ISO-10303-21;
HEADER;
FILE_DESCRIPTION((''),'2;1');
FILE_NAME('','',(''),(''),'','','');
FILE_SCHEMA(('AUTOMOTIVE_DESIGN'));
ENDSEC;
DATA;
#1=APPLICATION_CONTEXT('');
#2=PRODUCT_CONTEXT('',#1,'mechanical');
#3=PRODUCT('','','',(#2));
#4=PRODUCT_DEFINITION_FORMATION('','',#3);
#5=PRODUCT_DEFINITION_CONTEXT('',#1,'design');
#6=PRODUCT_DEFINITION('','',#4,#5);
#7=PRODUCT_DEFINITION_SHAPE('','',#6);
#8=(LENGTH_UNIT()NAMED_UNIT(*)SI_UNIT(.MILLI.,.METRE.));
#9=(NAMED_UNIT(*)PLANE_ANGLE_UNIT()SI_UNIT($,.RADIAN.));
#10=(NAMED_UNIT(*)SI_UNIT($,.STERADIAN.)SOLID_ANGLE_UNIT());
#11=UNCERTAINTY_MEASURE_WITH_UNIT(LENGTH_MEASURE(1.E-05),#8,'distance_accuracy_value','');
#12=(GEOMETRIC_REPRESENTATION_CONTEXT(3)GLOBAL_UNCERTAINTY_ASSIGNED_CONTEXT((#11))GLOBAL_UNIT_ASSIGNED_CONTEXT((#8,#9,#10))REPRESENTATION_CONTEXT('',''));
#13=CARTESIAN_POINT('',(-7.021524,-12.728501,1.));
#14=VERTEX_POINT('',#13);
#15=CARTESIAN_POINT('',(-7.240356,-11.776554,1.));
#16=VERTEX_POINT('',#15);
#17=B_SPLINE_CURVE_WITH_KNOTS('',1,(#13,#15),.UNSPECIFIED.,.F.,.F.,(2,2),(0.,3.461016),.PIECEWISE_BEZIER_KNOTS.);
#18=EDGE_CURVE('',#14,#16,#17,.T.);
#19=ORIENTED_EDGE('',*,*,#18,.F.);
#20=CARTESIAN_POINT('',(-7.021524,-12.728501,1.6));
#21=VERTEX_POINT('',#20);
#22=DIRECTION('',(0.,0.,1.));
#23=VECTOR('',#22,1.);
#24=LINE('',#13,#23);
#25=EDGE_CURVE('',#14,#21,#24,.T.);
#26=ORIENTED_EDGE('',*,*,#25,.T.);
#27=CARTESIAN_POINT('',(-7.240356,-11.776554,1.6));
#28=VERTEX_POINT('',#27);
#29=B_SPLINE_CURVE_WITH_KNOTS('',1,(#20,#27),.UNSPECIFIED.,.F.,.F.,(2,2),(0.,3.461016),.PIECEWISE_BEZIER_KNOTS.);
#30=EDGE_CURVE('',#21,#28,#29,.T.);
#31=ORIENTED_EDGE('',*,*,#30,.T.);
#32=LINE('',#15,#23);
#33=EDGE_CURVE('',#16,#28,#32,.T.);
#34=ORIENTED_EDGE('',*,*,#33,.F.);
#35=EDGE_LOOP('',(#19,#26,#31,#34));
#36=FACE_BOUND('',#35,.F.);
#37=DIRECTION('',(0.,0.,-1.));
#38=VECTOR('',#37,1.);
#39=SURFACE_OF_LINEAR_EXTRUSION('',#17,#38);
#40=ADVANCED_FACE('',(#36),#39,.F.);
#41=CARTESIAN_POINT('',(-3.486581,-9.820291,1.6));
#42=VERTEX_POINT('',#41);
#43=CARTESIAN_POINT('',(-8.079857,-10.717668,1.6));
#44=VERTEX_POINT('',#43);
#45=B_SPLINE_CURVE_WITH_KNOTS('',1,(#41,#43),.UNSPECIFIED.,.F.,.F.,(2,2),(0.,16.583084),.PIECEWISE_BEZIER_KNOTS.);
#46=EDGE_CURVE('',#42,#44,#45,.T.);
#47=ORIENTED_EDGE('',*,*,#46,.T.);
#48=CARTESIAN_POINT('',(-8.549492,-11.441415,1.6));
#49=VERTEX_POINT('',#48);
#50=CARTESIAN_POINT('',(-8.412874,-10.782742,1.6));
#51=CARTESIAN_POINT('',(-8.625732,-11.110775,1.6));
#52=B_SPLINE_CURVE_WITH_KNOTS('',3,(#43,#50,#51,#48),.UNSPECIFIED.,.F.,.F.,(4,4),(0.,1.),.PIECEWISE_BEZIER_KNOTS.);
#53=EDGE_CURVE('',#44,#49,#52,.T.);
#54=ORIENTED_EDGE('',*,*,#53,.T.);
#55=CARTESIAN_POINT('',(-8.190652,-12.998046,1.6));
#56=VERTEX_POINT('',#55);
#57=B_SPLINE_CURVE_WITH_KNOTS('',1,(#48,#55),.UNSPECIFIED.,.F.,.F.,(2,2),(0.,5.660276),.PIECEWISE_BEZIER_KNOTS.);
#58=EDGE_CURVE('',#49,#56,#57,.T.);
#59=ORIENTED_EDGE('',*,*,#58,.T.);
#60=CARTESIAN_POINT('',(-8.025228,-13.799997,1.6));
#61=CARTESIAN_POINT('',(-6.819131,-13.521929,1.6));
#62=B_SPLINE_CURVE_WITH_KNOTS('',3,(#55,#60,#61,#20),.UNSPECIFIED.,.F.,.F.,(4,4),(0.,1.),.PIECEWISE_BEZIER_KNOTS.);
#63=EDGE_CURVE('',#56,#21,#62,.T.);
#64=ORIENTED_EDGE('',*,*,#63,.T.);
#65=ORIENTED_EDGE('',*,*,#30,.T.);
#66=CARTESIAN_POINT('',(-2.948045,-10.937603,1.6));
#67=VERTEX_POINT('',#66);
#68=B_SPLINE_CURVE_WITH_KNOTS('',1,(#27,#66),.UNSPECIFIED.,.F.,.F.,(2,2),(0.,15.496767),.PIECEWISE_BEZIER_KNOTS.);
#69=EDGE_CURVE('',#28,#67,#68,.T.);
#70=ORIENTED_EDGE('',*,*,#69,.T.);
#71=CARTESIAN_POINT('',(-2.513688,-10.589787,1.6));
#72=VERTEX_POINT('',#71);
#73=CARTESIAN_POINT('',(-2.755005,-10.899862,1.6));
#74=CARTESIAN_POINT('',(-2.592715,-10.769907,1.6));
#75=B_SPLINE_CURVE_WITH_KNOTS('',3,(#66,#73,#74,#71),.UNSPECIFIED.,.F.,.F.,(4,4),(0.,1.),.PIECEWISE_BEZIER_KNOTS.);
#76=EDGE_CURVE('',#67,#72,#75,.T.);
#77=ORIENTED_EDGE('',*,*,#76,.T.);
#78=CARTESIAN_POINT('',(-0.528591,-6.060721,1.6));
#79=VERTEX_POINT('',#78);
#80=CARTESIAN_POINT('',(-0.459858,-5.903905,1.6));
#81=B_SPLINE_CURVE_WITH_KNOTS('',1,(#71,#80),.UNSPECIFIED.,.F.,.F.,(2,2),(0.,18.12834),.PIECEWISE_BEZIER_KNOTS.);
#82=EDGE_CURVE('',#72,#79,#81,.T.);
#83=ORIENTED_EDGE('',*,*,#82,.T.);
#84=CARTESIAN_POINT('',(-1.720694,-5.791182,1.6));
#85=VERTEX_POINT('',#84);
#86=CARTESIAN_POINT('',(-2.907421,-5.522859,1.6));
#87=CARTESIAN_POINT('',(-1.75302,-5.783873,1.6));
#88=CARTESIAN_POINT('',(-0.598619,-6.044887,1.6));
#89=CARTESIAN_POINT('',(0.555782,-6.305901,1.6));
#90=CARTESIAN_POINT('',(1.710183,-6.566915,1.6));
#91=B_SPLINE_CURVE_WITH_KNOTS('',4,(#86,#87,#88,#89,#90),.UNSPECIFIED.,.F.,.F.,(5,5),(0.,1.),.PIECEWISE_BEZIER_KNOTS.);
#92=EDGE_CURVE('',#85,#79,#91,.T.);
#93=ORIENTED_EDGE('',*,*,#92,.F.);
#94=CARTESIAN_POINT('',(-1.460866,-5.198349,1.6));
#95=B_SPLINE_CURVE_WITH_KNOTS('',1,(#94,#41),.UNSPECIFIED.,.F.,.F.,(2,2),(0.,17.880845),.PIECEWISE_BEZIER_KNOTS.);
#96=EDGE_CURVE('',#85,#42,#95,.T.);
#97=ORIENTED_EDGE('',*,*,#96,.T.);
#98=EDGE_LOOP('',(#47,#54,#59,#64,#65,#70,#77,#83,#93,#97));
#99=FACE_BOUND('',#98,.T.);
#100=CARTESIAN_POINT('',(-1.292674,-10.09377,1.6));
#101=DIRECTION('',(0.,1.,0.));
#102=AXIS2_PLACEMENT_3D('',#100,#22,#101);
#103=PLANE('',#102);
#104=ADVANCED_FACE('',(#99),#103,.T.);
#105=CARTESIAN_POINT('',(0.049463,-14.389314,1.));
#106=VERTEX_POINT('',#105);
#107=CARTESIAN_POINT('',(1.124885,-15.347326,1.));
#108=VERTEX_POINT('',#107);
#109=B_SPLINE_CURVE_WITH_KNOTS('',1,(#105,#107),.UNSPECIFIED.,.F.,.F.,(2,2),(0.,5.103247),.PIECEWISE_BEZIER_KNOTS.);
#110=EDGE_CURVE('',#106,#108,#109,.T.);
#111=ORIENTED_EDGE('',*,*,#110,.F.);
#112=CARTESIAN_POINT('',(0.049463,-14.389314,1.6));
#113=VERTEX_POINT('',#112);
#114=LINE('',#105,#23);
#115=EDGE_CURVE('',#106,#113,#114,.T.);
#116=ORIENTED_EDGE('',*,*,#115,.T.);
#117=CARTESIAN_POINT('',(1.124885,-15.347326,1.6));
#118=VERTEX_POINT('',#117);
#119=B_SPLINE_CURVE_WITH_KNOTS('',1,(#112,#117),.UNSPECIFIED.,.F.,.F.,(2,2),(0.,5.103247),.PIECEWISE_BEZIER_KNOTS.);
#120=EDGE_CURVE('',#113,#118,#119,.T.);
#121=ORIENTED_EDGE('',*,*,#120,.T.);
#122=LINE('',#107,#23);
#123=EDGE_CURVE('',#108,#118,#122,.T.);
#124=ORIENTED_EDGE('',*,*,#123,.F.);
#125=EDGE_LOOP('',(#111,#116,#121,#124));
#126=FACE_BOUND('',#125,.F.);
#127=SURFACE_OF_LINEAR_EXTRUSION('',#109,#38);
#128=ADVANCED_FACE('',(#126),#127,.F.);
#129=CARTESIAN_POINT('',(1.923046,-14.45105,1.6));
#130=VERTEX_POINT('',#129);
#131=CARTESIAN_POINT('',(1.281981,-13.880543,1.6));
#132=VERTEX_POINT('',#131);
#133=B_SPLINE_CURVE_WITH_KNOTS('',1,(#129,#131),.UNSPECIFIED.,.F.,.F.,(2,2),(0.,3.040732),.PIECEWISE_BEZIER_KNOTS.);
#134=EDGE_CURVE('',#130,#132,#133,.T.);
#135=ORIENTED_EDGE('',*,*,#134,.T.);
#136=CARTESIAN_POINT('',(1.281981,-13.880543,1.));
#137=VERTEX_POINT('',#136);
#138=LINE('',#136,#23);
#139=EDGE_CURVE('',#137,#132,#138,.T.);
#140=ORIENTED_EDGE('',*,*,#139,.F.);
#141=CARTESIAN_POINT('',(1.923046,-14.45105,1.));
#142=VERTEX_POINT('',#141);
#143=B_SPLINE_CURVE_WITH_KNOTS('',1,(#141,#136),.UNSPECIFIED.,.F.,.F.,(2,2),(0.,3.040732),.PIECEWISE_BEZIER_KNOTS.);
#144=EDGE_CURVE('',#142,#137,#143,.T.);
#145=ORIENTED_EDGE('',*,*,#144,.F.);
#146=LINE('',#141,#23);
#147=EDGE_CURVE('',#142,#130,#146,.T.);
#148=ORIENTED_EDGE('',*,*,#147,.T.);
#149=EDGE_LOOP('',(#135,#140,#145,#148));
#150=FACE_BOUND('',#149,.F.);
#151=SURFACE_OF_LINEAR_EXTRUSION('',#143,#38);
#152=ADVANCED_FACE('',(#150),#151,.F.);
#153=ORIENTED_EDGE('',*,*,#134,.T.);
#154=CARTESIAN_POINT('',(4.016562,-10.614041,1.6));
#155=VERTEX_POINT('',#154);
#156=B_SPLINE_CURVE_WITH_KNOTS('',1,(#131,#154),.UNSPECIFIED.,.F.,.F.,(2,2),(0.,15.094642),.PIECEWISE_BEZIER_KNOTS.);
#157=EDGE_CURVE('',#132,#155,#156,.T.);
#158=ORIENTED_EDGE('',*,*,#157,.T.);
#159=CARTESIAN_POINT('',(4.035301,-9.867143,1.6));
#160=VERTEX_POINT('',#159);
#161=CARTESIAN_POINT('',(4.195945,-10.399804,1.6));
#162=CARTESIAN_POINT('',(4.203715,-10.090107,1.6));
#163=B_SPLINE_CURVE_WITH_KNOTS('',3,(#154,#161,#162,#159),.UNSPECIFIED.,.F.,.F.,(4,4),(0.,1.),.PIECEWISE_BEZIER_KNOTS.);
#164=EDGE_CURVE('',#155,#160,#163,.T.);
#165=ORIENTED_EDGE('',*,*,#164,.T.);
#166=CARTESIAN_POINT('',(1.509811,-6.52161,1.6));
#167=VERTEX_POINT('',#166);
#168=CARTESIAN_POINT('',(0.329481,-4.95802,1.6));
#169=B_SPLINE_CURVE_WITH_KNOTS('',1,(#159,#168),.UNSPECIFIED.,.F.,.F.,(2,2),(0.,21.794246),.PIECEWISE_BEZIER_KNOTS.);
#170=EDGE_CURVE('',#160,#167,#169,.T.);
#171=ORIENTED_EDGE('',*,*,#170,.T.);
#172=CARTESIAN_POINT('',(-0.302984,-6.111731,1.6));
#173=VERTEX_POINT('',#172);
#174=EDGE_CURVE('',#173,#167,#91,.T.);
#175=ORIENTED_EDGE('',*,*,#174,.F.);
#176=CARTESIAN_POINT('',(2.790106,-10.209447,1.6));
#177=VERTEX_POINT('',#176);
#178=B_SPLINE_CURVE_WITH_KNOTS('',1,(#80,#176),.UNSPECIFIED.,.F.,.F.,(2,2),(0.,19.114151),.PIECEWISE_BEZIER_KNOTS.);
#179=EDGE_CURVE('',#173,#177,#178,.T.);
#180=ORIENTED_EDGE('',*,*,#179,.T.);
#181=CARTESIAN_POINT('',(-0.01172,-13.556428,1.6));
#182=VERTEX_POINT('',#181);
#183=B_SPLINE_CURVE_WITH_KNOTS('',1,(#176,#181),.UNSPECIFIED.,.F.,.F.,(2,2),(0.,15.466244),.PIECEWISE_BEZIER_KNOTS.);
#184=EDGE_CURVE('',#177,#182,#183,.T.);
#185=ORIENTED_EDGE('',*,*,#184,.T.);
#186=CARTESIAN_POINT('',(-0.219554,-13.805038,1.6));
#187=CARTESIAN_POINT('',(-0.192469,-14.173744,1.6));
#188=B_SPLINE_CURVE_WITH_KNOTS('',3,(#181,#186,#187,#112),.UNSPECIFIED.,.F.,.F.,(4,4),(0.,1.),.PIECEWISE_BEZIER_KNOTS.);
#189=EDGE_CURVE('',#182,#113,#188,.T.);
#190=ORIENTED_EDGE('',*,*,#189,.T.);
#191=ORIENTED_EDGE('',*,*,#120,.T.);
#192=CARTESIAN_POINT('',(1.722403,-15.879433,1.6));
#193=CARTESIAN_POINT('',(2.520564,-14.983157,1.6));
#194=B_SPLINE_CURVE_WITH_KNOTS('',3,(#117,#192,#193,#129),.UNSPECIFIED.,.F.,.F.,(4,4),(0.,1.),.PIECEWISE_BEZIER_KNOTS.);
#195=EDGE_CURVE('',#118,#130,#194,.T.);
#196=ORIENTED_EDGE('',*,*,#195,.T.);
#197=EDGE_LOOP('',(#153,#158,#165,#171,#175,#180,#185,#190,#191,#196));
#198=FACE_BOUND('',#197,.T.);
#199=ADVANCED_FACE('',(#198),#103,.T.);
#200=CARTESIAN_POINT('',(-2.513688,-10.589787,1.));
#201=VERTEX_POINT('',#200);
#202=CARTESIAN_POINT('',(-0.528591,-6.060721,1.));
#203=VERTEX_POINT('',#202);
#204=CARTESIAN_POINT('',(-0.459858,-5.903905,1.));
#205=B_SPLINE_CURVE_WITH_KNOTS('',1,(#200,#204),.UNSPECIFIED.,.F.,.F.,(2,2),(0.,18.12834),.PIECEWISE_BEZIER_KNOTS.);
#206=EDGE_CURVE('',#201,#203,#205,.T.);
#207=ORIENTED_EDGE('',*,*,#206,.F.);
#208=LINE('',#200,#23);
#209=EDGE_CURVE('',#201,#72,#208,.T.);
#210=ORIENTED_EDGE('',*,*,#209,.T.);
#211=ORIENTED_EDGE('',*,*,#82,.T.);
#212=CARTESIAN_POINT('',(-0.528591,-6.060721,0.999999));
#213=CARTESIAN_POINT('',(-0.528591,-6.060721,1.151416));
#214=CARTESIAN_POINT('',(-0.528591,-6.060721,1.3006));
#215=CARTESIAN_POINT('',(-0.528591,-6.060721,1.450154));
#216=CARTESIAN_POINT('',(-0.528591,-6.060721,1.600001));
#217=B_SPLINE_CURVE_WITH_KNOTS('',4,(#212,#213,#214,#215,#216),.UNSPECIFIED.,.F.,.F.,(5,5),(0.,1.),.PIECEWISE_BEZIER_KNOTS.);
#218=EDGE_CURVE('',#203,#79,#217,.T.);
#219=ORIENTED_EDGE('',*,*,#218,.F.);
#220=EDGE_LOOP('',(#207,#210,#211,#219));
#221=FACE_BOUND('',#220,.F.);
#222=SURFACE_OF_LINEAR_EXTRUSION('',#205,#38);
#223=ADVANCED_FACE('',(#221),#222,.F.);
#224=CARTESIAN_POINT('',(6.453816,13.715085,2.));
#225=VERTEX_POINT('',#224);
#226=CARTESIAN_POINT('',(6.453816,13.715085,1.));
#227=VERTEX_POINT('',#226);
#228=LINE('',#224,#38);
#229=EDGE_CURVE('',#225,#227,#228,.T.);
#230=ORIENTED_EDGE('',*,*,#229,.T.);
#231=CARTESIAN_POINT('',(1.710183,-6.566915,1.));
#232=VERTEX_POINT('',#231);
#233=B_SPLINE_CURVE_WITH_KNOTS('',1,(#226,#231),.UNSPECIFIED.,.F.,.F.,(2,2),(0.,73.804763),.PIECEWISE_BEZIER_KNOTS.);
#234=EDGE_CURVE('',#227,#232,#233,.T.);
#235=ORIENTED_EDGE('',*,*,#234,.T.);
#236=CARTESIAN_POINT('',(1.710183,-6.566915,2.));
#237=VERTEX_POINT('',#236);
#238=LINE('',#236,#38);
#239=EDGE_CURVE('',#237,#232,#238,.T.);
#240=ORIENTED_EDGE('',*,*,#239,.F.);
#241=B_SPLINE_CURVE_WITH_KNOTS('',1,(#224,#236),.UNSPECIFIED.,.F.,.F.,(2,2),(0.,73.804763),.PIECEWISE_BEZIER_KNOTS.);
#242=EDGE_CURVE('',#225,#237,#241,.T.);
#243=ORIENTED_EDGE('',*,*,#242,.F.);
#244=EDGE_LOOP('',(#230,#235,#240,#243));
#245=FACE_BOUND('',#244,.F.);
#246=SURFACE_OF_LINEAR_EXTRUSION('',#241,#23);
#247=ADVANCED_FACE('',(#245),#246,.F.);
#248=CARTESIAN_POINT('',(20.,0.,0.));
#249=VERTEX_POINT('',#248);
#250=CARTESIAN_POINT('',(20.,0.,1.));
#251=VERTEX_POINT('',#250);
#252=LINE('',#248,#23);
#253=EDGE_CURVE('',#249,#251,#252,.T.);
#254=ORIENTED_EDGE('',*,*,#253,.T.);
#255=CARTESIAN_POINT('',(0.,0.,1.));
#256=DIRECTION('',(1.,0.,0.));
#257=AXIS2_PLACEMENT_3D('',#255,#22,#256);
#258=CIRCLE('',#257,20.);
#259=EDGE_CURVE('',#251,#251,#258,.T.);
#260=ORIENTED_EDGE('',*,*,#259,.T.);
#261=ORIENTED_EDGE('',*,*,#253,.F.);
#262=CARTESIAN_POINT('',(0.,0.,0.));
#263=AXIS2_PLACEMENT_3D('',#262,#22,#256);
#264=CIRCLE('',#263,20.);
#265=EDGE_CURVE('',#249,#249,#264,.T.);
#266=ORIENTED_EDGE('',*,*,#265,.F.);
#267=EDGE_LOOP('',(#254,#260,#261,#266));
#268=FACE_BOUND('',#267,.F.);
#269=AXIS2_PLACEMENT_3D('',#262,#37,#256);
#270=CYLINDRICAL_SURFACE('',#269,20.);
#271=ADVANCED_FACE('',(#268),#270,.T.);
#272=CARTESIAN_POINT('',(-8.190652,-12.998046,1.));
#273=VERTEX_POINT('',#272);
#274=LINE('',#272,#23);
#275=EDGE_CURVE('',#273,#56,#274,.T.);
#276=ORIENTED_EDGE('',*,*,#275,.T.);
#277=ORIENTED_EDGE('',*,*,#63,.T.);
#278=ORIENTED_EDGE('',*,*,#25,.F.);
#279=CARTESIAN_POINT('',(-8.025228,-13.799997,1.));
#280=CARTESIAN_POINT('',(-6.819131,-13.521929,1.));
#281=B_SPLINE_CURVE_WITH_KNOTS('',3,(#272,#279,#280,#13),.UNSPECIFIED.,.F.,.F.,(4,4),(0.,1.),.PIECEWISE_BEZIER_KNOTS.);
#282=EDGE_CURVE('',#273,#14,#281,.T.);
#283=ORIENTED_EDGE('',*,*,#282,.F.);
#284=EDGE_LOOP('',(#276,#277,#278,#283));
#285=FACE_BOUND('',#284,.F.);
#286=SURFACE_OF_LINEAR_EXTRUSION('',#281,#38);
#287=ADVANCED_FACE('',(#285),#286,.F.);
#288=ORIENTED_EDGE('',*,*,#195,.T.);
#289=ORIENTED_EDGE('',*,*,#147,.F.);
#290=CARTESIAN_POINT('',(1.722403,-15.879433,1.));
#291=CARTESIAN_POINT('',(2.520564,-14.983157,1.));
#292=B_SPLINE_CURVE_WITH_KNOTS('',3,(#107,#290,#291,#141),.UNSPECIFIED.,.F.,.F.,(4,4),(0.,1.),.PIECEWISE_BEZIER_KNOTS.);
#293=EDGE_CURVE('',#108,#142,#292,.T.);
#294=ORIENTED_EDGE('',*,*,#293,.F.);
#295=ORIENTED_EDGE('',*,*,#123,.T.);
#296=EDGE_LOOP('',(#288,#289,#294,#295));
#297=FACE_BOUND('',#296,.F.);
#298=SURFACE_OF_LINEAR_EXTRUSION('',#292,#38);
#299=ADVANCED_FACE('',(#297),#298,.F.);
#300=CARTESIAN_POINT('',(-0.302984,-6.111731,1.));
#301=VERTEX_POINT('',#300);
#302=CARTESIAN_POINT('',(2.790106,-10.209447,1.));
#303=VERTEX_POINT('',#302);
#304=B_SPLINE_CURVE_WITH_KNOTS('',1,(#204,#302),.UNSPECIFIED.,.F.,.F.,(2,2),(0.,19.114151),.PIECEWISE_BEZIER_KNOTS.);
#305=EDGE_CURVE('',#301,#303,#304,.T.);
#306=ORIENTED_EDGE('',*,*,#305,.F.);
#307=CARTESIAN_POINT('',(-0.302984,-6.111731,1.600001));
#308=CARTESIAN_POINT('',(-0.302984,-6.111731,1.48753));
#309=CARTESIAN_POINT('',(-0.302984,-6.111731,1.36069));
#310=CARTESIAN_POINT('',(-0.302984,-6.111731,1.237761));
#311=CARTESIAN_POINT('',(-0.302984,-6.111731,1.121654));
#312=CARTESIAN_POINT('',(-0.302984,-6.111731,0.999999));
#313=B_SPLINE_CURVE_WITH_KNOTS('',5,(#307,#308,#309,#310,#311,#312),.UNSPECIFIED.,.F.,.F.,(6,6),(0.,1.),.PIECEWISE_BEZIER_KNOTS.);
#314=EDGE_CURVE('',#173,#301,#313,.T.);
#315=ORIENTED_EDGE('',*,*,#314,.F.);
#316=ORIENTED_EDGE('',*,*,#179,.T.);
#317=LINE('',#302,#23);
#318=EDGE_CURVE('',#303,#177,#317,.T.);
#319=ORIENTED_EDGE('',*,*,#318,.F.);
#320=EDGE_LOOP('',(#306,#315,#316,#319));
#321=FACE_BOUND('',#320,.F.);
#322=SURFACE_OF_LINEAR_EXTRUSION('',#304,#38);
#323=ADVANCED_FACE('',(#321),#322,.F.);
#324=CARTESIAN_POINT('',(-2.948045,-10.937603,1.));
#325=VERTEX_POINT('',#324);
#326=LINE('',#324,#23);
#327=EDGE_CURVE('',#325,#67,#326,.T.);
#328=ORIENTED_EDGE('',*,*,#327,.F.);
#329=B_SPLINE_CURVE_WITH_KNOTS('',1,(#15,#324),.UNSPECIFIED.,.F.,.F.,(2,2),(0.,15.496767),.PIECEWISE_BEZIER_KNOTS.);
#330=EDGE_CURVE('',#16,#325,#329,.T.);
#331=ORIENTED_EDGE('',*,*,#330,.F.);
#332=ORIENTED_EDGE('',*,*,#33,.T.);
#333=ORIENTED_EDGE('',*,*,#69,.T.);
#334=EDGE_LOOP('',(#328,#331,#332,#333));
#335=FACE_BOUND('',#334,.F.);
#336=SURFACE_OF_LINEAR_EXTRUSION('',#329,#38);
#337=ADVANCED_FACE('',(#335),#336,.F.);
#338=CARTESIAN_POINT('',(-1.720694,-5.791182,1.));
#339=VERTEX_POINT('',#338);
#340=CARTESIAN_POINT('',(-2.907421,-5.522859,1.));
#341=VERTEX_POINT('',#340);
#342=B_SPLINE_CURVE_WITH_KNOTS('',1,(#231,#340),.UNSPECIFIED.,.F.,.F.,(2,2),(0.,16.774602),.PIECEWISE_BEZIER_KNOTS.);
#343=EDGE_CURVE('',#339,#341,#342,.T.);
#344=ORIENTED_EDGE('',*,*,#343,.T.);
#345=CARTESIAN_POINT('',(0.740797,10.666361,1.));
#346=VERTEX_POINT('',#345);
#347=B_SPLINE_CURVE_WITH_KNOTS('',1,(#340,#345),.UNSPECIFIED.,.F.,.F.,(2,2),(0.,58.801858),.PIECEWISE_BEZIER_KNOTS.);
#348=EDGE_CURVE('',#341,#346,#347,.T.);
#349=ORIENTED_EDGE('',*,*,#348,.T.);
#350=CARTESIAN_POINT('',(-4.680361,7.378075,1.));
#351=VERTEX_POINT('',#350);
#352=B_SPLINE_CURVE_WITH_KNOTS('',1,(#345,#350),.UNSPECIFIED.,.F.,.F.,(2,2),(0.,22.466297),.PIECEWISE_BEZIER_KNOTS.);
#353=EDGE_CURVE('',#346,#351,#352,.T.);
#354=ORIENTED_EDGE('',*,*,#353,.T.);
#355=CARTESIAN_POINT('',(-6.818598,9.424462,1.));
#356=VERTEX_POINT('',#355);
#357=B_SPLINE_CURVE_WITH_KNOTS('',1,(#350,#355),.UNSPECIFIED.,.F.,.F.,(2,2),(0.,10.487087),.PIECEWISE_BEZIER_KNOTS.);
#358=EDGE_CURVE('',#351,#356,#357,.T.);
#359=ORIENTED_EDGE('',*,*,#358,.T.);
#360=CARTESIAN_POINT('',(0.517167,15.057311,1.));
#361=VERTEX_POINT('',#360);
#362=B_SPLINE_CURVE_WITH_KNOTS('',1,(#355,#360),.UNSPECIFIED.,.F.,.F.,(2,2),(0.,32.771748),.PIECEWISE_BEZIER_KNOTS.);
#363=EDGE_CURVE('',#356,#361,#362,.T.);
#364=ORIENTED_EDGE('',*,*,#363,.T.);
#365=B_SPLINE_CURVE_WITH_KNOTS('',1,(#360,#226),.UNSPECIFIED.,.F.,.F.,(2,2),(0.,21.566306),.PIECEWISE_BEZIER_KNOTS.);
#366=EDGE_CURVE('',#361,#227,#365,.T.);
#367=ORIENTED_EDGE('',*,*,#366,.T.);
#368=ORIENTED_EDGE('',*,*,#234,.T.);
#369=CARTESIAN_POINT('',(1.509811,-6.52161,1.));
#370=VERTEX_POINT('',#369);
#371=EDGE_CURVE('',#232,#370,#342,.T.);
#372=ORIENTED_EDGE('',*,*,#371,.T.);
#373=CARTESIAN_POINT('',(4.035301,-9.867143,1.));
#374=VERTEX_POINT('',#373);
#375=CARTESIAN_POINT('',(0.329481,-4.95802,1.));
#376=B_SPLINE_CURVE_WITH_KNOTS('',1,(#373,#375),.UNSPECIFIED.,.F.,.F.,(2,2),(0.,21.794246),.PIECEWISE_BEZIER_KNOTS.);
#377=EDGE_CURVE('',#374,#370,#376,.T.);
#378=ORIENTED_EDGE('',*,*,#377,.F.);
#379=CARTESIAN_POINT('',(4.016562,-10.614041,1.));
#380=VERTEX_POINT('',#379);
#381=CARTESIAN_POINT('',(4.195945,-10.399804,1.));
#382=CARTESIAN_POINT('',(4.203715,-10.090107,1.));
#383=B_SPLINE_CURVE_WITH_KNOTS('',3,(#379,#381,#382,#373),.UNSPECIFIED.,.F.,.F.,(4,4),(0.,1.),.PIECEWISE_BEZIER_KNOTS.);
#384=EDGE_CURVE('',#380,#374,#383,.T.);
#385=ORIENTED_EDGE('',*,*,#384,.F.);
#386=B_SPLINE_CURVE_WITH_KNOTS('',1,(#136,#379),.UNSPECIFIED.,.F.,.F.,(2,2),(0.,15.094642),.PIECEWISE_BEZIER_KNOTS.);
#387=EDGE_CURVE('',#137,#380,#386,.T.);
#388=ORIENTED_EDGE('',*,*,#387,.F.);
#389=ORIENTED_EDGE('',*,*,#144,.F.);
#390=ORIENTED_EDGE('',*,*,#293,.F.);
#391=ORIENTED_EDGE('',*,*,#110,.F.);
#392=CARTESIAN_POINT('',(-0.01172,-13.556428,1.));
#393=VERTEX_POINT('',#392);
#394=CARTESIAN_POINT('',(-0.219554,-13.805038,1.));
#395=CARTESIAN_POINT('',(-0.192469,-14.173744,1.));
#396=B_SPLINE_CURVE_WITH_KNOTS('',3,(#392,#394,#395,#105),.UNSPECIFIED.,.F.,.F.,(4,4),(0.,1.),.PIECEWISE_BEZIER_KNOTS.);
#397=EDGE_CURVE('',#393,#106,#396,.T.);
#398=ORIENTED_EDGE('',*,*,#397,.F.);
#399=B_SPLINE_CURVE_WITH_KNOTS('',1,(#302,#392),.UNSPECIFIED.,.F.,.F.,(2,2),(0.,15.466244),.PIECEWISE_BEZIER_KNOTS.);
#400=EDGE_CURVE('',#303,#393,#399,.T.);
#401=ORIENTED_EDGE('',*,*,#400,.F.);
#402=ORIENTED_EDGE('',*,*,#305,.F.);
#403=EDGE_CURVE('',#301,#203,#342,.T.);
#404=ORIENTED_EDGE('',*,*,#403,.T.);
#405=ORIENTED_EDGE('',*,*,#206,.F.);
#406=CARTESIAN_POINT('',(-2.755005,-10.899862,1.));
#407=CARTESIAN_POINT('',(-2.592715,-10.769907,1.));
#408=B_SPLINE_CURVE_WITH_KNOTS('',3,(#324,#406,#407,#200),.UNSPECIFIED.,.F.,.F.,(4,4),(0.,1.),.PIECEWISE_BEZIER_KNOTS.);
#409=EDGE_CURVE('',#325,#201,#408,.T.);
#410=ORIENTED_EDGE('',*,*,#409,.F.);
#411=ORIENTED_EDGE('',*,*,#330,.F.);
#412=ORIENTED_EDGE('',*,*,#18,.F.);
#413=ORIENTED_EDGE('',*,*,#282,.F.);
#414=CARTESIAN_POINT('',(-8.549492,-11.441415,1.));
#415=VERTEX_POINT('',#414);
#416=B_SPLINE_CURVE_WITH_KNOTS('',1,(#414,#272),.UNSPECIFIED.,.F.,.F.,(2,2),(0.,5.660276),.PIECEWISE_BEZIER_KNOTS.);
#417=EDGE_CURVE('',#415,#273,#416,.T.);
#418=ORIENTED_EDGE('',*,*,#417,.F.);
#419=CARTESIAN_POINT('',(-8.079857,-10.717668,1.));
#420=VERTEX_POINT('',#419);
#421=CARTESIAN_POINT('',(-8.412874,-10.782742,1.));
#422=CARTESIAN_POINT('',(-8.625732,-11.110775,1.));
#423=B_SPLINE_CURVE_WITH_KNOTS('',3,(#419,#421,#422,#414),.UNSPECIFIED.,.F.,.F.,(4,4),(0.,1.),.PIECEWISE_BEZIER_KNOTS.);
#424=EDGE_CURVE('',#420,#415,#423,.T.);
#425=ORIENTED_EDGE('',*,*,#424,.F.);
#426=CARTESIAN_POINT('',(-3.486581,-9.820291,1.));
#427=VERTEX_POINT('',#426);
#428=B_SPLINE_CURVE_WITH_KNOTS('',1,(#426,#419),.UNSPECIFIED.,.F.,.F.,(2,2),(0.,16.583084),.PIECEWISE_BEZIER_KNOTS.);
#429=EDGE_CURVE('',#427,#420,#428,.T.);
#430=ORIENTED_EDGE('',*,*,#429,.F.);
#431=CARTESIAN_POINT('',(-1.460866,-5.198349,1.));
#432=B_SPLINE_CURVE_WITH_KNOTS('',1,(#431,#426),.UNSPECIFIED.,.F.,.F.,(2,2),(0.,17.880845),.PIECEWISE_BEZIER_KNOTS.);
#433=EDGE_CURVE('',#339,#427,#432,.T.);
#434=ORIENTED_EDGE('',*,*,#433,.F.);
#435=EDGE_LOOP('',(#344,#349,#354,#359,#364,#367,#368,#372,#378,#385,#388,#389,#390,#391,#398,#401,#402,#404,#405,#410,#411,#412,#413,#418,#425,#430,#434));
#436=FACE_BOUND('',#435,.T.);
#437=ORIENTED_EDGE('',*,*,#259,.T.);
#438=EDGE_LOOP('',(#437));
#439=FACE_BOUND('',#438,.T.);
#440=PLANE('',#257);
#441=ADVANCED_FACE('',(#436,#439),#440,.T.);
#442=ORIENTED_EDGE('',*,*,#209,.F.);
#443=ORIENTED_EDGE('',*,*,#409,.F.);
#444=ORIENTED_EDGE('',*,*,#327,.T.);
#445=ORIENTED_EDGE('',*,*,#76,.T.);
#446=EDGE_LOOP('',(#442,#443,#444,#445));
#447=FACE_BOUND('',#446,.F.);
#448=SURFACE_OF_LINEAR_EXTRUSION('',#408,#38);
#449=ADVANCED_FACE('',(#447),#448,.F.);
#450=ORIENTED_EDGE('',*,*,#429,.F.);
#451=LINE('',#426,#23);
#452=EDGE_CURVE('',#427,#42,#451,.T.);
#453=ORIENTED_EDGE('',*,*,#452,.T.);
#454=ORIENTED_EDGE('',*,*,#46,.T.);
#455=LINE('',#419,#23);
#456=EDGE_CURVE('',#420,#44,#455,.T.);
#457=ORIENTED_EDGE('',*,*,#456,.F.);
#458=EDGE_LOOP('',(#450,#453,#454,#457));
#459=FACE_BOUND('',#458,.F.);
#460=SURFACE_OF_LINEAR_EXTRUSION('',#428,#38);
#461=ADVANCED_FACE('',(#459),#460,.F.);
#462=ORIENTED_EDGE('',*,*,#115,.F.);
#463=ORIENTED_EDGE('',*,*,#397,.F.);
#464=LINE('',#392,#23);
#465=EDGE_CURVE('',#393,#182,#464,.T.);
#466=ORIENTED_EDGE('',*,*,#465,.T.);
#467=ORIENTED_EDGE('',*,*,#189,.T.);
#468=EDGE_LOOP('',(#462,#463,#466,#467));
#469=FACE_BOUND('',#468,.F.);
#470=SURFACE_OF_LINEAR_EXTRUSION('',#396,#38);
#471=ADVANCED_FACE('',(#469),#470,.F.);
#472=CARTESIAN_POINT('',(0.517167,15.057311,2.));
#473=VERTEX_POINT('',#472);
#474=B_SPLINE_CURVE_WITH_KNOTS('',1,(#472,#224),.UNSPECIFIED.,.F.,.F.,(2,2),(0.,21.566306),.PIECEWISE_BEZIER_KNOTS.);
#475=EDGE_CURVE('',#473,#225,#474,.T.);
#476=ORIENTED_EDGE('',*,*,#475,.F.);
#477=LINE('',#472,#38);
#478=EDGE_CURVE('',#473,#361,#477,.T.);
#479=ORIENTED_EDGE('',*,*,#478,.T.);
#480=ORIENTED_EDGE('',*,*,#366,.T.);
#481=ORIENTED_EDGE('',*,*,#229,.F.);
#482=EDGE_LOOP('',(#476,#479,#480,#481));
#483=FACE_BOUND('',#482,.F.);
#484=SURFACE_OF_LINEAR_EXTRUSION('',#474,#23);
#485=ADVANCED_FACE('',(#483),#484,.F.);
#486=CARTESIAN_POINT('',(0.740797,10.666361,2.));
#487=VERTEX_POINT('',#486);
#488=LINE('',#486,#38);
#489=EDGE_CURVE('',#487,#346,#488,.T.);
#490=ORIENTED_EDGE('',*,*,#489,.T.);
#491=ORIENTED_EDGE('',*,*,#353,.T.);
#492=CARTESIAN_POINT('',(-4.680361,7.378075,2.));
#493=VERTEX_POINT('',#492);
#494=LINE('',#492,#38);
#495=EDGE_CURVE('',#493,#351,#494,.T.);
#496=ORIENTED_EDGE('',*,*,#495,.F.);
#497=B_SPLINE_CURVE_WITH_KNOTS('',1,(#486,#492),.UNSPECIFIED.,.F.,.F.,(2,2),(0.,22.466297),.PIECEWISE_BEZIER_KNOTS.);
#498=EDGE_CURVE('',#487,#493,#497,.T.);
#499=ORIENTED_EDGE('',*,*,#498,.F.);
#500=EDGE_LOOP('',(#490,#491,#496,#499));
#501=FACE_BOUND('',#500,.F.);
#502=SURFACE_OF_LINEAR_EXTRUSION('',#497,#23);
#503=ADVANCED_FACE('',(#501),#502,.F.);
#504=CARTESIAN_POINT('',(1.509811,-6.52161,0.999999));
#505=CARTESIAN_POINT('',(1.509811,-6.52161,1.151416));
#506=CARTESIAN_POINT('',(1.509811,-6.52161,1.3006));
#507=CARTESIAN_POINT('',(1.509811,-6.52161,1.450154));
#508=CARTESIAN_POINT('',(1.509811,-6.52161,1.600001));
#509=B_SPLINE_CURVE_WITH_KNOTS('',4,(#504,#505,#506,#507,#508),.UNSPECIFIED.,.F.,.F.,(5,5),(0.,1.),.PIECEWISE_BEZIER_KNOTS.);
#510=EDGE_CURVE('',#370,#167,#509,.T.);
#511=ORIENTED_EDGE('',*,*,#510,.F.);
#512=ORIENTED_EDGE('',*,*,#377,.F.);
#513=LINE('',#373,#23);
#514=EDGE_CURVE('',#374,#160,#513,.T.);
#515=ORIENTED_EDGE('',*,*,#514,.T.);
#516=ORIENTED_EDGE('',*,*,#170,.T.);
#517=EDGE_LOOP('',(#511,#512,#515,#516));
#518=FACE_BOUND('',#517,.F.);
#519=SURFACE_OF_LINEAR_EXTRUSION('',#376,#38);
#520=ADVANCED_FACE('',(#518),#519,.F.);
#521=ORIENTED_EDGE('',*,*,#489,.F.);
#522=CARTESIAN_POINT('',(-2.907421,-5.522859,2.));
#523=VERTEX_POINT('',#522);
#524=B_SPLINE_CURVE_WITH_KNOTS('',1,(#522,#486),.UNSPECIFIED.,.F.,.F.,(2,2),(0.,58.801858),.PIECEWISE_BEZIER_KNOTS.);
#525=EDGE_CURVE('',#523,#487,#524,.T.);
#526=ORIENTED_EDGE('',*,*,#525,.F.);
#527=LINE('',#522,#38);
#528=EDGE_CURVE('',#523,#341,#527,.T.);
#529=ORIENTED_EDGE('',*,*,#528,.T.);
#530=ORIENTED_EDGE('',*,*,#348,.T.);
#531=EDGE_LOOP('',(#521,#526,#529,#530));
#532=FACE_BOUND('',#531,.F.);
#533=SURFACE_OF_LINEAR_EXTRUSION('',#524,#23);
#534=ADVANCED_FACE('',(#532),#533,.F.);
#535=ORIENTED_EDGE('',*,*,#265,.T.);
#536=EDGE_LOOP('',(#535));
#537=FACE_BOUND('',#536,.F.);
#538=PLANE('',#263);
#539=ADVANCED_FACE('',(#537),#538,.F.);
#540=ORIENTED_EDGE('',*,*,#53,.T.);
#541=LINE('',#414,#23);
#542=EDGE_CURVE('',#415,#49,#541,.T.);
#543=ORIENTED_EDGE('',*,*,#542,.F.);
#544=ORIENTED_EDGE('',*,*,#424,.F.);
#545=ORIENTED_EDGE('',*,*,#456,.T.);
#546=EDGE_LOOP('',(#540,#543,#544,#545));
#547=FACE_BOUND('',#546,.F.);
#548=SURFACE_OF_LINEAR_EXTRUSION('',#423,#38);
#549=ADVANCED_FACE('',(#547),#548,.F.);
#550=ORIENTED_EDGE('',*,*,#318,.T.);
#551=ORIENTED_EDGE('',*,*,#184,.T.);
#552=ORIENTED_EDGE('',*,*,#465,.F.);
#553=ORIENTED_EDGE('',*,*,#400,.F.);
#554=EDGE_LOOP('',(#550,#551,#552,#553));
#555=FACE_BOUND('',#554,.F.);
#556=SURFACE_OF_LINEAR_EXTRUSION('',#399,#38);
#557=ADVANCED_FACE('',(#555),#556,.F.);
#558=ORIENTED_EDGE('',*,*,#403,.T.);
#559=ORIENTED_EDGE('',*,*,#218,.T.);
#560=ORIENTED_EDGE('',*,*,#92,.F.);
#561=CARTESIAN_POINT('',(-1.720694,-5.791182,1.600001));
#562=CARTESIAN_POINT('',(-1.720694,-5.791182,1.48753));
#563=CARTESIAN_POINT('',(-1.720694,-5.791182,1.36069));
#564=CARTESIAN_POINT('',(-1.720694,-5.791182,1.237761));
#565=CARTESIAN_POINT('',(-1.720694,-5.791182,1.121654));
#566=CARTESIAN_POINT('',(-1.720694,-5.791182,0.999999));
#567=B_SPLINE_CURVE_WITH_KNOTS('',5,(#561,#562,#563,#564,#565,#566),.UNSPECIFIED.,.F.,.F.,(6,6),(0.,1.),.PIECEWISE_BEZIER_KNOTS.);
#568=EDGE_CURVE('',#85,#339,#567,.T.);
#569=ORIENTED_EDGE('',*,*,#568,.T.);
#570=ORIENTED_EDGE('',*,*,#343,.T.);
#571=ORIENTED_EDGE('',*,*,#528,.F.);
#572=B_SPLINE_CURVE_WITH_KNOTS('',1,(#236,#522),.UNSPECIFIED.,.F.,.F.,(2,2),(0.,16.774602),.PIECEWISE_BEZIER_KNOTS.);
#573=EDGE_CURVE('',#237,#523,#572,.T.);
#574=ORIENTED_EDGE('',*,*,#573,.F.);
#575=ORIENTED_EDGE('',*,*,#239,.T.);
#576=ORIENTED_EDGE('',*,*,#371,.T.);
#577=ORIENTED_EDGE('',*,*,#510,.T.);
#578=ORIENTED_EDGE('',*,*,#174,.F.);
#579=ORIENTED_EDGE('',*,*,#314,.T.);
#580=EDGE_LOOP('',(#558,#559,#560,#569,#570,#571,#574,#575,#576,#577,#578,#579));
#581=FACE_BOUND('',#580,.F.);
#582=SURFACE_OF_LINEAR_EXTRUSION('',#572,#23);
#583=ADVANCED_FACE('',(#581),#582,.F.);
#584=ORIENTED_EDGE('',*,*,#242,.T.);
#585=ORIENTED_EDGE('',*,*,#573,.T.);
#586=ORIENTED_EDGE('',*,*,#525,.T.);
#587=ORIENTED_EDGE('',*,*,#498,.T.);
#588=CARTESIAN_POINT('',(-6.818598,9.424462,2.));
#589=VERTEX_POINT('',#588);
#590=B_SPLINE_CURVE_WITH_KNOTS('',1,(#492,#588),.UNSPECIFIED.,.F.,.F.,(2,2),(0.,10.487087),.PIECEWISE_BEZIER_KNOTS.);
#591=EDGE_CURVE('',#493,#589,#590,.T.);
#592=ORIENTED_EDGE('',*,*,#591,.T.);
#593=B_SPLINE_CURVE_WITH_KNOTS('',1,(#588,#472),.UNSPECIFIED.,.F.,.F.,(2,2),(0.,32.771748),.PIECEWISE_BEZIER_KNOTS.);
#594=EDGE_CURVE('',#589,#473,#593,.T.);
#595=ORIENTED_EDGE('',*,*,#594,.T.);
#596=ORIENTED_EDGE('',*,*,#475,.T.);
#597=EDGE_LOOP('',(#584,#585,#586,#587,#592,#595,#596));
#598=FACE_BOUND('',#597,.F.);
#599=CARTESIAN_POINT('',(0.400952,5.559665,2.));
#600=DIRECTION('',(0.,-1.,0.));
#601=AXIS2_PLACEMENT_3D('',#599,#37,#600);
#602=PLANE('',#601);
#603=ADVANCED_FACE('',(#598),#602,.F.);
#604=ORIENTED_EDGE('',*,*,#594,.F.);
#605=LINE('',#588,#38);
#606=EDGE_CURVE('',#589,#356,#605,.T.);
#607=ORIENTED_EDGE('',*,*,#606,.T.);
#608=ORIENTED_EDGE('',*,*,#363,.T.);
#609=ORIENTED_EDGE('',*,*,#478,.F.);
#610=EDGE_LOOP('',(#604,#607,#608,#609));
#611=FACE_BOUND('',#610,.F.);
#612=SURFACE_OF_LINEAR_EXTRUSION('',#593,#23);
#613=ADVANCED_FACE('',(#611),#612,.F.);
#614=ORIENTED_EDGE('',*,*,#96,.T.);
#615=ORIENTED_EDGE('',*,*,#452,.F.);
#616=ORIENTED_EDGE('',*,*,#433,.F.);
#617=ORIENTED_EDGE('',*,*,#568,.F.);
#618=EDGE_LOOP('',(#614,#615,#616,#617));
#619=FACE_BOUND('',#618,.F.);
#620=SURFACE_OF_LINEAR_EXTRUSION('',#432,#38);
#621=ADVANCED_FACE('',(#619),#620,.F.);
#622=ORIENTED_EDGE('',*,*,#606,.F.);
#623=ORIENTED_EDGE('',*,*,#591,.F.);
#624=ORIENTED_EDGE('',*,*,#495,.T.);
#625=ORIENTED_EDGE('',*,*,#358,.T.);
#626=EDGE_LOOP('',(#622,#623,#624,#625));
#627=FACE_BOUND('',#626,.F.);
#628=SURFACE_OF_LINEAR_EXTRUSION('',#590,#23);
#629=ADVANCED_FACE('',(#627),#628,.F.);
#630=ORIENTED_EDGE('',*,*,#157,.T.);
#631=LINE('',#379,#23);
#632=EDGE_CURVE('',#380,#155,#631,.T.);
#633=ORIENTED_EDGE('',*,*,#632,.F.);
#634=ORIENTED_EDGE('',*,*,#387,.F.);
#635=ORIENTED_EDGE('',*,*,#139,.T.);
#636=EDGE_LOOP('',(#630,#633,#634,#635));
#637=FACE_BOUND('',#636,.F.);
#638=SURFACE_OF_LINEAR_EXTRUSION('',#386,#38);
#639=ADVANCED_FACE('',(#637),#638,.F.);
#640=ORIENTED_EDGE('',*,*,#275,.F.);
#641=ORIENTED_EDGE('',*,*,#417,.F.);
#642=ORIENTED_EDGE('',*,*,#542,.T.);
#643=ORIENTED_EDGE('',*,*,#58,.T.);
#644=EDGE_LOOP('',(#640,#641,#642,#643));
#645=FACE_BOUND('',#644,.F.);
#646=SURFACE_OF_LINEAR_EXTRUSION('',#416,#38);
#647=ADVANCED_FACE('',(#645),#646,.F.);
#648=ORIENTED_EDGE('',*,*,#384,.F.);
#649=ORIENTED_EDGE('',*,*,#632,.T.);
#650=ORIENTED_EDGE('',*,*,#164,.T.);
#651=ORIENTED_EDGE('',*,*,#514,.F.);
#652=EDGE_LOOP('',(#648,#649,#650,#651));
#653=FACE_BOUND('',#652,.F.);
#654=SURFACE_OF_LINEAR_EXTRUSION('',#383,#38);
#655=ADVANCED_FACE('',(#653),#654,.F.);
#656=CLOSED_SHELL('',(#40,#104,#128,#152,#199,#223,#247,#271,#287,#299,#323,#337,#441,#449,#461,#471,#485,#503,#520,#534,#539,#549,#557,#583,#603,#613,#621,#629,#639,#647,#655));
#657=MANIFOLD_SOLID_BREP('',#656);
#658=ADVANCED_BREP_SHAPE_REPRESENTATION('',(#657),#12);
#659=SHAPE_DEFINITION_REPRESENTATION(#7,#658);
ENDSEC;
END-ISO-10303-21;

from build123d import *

# Parameters (mm, degrees)
EXTRUDE001_DEPTH = 1
EXTRUDE_DEPTH    = 0.6
CYLINDER_R       = 20
CYLINDER_DEPTH   = 1


with BuildPart() as body:
    # path4_7_6_1_6 → Extrude001 (new body)
    with BuildSketch(Plane(origin=(-0.182391, 4.245198, 1), x_dir=(0, -1, 0), z_dir=(0, 0, -1))):
        with BuildLine():
            add(Edge.make_bspline(
                [(-5.179264, 6.636207), (-10.812113, -0.699558)],
                knots=[0, 0, 32.771748, 32.771748], degree=1))
            add(Edge.make_bspline(
                [(-10.812113, -0.699558), (-9.469887, -6.636207)],
                knots=[0, 0, 21.566306, 21.566306], degree=1))
            add(Edge.make_bspline(
                [(-9.469887, -6.636207), (10.812113, -1.892574)],
                knots=[0, 0, 73.804763, 73.804763], degree=1))
            add(Edge.make_bspline(
                [(10.812113, -1.892574), (9.768057, 2.72503)],
                knots=[0, 0, 16.774602, 16.774602], degree=1))
            add(Edge.make_bspline(
                [(9.768057, 2.72503), (-6.421163, -0.923188)],
                knots=[0, 0, 58.801858, 58.801858], degree=1))
            add(Edge.make_bspline(
                [(-6.421163, -0.923188), (-3.132877, 4.49797)],
                knots=[0, 0, 22.466297, 22.466297], degree=1))
            add(Edge.make_bspline(
                [(-3.132877, 4.49797), (-5.179264, 6.636207)],
                knots=[0, 0, 10.487087, 10.487087], degree=1))
        make_face()
    extrude(amount=EXTRUDE001_DEPTH)


with BuildPart() as body_1:
    # Extrude001 placement: moved
    add(body.part.moved(Location((0, 0, 1))))


with BuildPart() as fusion:
    # path6_7_2_1_0_9 → Extrude (new body)
    with BuildSketch(Plane(origin=(-2.209018, -10.301053, 1), x_dir=(0, 1, 0), z_dir=(0, 0, 1))):
        with BuildLine():
            add(Edge.make_bspline(
                [(5.102704, -0.748152), (0.480762, 1.277563)],
                knots=[0, 0, 17.880845, 17.880845], degree=1))
            add(Edge.make_bspline(
                [(0.480762, 1.277563), (-0.416615, 5.870839)],
                knots=[0, 0, 16.583084, 16.583084], degree=1))
            add(Edge.make_bspline(
                [(-0.416615, 5.870839), (-0.481689, 6.203856), (-0.809722, 6.416714), (-1.140362, 6.340474)],
                knots=[0, 0, 0, 0, 1, 1, 1, 1], degree=3))
            add(Edge.make_bspline(
                [(-1.140362, 6.340474), (-2.696993, 5.981634)],
                knots=[0, 0, 5.660276, 5.660276], degree=1))
            add(Edge.make_bspline(
                [(-2.696993, 5.981634), (-3.498944, 5.81621), (-3.220876, 4.610113), (-2.427448, 4.812506)],
                knots=[0, 0, 0, 0, 1, 1, 1, 1], degree=3))
            add(Edge.make_bspline(
                [(-2.427448, 4.812506), (-1.475501, 5.031338)],
                knots=[0, 0, 3.461016, 3.461016], degree=1))
            add(Edge.make_bspline(
                [(-1.475501, 5.031338), (-0.63655, 0.739027)],
                knots=[0, 0, 15.496767, 15.496767], degree=1))
            add(Edge.make_bspline(
                [(-0.63655, 0.739027), (-0.598809, 0.545987), (-0.468854, 0.383697), (-0.288734, 0.30467)],
                knots=[0, 0, 0, 0, 1, 1, 1, 1], degree=3))
            add(Edge.make_bspline(
                [(-0.288734, 0.30467), (4.397148, -1.74916)],
                knots=[0, 0, 18.12834, 18.12834], degree=1))
            add(Edge.make_bspline(
                [(4.397148, -1.74916), (0.091606, -4.999124)],
                knots=[0, 0, 19.114151, 19.114151], degree=1))
            add(Edge.make_bspline(
                [(0.091606, -4.999124), (-3.255375, -2.197298)],
                knots=[0, 0, 15.466244, 15.466244], degree=1))
            add(Edge.make_bspline(
                [(-3.255375, -2.197298), (-3.503985, -1.989464), (-3.872691, -2.016549), (-4.088261, -2.258481)],
                knots=[0, 0, 0, 0, 1, 1, 1, 1], degree=3))
            add(Edge.make_bspline(
                [(-4.088261, -2.258481), (-5.046273, -3.333903)],
                knots=[0, 0, 5.103247, 5.103247], degree=1))
            add(Edge.make_bspline(
                [(-5.046273, -3.333903), (-5.57838, -3.931421), (-4.682104, -4.729582), (-4.149997, -4.132064)],
                knots=[0, 0, 0, 0, 1, 1, 1, 1], degree=3))
            add(Edge.make_bspline(
                [(-4.149997, -4.132064), (-3.57949, -3.490999)],
                knots=[0, 0, 3.040732, 3.040732], degree=1))
            add(Edge.make_bspline(
                [(-3.57949, -3.490999), (-0.312988, -6.22558)],
                knots=[0, 0, 15.094642, 15.094642], degree=1))
            add(Edge.make_bspline(
                [(-0.312988, -6.22558), (-0.098751, -6.404963), (0.210946, -6.412733), (0.43391, -6.244319)],
                knots=[0, 0, 0, 0, 1, 1, 1, 1], degree=3))
            add(Edge.make_bspline(
                [(0.43391, -6.244319), (5.343033, -2.538499)],
                knots=[0, 0, 21.794246, 21.794246], degree=1))
            add(Edge.make_bspline(
                [(5.343033, -2.538499), (5.102704, -0.748152)],
                knots=[0, 0, 6.40065, 6.40065], degree=1))
        make_face()
    extrude(amount=EXTRUDE_DEPTH)

    # Fusion: union Body
    add(body_1.part)


with BuildPart() as bit_1_coin:
    # Cylinder → Cylinder (new body)
    with BuildSketch(Plane.XY):
        Circle(CYLINDER_R)
    extrude(amount=CYLINDER_DEPTH)

    # Fusion001: union Fusion
    add(fusion.part)


solid = bit_1_coin.part
